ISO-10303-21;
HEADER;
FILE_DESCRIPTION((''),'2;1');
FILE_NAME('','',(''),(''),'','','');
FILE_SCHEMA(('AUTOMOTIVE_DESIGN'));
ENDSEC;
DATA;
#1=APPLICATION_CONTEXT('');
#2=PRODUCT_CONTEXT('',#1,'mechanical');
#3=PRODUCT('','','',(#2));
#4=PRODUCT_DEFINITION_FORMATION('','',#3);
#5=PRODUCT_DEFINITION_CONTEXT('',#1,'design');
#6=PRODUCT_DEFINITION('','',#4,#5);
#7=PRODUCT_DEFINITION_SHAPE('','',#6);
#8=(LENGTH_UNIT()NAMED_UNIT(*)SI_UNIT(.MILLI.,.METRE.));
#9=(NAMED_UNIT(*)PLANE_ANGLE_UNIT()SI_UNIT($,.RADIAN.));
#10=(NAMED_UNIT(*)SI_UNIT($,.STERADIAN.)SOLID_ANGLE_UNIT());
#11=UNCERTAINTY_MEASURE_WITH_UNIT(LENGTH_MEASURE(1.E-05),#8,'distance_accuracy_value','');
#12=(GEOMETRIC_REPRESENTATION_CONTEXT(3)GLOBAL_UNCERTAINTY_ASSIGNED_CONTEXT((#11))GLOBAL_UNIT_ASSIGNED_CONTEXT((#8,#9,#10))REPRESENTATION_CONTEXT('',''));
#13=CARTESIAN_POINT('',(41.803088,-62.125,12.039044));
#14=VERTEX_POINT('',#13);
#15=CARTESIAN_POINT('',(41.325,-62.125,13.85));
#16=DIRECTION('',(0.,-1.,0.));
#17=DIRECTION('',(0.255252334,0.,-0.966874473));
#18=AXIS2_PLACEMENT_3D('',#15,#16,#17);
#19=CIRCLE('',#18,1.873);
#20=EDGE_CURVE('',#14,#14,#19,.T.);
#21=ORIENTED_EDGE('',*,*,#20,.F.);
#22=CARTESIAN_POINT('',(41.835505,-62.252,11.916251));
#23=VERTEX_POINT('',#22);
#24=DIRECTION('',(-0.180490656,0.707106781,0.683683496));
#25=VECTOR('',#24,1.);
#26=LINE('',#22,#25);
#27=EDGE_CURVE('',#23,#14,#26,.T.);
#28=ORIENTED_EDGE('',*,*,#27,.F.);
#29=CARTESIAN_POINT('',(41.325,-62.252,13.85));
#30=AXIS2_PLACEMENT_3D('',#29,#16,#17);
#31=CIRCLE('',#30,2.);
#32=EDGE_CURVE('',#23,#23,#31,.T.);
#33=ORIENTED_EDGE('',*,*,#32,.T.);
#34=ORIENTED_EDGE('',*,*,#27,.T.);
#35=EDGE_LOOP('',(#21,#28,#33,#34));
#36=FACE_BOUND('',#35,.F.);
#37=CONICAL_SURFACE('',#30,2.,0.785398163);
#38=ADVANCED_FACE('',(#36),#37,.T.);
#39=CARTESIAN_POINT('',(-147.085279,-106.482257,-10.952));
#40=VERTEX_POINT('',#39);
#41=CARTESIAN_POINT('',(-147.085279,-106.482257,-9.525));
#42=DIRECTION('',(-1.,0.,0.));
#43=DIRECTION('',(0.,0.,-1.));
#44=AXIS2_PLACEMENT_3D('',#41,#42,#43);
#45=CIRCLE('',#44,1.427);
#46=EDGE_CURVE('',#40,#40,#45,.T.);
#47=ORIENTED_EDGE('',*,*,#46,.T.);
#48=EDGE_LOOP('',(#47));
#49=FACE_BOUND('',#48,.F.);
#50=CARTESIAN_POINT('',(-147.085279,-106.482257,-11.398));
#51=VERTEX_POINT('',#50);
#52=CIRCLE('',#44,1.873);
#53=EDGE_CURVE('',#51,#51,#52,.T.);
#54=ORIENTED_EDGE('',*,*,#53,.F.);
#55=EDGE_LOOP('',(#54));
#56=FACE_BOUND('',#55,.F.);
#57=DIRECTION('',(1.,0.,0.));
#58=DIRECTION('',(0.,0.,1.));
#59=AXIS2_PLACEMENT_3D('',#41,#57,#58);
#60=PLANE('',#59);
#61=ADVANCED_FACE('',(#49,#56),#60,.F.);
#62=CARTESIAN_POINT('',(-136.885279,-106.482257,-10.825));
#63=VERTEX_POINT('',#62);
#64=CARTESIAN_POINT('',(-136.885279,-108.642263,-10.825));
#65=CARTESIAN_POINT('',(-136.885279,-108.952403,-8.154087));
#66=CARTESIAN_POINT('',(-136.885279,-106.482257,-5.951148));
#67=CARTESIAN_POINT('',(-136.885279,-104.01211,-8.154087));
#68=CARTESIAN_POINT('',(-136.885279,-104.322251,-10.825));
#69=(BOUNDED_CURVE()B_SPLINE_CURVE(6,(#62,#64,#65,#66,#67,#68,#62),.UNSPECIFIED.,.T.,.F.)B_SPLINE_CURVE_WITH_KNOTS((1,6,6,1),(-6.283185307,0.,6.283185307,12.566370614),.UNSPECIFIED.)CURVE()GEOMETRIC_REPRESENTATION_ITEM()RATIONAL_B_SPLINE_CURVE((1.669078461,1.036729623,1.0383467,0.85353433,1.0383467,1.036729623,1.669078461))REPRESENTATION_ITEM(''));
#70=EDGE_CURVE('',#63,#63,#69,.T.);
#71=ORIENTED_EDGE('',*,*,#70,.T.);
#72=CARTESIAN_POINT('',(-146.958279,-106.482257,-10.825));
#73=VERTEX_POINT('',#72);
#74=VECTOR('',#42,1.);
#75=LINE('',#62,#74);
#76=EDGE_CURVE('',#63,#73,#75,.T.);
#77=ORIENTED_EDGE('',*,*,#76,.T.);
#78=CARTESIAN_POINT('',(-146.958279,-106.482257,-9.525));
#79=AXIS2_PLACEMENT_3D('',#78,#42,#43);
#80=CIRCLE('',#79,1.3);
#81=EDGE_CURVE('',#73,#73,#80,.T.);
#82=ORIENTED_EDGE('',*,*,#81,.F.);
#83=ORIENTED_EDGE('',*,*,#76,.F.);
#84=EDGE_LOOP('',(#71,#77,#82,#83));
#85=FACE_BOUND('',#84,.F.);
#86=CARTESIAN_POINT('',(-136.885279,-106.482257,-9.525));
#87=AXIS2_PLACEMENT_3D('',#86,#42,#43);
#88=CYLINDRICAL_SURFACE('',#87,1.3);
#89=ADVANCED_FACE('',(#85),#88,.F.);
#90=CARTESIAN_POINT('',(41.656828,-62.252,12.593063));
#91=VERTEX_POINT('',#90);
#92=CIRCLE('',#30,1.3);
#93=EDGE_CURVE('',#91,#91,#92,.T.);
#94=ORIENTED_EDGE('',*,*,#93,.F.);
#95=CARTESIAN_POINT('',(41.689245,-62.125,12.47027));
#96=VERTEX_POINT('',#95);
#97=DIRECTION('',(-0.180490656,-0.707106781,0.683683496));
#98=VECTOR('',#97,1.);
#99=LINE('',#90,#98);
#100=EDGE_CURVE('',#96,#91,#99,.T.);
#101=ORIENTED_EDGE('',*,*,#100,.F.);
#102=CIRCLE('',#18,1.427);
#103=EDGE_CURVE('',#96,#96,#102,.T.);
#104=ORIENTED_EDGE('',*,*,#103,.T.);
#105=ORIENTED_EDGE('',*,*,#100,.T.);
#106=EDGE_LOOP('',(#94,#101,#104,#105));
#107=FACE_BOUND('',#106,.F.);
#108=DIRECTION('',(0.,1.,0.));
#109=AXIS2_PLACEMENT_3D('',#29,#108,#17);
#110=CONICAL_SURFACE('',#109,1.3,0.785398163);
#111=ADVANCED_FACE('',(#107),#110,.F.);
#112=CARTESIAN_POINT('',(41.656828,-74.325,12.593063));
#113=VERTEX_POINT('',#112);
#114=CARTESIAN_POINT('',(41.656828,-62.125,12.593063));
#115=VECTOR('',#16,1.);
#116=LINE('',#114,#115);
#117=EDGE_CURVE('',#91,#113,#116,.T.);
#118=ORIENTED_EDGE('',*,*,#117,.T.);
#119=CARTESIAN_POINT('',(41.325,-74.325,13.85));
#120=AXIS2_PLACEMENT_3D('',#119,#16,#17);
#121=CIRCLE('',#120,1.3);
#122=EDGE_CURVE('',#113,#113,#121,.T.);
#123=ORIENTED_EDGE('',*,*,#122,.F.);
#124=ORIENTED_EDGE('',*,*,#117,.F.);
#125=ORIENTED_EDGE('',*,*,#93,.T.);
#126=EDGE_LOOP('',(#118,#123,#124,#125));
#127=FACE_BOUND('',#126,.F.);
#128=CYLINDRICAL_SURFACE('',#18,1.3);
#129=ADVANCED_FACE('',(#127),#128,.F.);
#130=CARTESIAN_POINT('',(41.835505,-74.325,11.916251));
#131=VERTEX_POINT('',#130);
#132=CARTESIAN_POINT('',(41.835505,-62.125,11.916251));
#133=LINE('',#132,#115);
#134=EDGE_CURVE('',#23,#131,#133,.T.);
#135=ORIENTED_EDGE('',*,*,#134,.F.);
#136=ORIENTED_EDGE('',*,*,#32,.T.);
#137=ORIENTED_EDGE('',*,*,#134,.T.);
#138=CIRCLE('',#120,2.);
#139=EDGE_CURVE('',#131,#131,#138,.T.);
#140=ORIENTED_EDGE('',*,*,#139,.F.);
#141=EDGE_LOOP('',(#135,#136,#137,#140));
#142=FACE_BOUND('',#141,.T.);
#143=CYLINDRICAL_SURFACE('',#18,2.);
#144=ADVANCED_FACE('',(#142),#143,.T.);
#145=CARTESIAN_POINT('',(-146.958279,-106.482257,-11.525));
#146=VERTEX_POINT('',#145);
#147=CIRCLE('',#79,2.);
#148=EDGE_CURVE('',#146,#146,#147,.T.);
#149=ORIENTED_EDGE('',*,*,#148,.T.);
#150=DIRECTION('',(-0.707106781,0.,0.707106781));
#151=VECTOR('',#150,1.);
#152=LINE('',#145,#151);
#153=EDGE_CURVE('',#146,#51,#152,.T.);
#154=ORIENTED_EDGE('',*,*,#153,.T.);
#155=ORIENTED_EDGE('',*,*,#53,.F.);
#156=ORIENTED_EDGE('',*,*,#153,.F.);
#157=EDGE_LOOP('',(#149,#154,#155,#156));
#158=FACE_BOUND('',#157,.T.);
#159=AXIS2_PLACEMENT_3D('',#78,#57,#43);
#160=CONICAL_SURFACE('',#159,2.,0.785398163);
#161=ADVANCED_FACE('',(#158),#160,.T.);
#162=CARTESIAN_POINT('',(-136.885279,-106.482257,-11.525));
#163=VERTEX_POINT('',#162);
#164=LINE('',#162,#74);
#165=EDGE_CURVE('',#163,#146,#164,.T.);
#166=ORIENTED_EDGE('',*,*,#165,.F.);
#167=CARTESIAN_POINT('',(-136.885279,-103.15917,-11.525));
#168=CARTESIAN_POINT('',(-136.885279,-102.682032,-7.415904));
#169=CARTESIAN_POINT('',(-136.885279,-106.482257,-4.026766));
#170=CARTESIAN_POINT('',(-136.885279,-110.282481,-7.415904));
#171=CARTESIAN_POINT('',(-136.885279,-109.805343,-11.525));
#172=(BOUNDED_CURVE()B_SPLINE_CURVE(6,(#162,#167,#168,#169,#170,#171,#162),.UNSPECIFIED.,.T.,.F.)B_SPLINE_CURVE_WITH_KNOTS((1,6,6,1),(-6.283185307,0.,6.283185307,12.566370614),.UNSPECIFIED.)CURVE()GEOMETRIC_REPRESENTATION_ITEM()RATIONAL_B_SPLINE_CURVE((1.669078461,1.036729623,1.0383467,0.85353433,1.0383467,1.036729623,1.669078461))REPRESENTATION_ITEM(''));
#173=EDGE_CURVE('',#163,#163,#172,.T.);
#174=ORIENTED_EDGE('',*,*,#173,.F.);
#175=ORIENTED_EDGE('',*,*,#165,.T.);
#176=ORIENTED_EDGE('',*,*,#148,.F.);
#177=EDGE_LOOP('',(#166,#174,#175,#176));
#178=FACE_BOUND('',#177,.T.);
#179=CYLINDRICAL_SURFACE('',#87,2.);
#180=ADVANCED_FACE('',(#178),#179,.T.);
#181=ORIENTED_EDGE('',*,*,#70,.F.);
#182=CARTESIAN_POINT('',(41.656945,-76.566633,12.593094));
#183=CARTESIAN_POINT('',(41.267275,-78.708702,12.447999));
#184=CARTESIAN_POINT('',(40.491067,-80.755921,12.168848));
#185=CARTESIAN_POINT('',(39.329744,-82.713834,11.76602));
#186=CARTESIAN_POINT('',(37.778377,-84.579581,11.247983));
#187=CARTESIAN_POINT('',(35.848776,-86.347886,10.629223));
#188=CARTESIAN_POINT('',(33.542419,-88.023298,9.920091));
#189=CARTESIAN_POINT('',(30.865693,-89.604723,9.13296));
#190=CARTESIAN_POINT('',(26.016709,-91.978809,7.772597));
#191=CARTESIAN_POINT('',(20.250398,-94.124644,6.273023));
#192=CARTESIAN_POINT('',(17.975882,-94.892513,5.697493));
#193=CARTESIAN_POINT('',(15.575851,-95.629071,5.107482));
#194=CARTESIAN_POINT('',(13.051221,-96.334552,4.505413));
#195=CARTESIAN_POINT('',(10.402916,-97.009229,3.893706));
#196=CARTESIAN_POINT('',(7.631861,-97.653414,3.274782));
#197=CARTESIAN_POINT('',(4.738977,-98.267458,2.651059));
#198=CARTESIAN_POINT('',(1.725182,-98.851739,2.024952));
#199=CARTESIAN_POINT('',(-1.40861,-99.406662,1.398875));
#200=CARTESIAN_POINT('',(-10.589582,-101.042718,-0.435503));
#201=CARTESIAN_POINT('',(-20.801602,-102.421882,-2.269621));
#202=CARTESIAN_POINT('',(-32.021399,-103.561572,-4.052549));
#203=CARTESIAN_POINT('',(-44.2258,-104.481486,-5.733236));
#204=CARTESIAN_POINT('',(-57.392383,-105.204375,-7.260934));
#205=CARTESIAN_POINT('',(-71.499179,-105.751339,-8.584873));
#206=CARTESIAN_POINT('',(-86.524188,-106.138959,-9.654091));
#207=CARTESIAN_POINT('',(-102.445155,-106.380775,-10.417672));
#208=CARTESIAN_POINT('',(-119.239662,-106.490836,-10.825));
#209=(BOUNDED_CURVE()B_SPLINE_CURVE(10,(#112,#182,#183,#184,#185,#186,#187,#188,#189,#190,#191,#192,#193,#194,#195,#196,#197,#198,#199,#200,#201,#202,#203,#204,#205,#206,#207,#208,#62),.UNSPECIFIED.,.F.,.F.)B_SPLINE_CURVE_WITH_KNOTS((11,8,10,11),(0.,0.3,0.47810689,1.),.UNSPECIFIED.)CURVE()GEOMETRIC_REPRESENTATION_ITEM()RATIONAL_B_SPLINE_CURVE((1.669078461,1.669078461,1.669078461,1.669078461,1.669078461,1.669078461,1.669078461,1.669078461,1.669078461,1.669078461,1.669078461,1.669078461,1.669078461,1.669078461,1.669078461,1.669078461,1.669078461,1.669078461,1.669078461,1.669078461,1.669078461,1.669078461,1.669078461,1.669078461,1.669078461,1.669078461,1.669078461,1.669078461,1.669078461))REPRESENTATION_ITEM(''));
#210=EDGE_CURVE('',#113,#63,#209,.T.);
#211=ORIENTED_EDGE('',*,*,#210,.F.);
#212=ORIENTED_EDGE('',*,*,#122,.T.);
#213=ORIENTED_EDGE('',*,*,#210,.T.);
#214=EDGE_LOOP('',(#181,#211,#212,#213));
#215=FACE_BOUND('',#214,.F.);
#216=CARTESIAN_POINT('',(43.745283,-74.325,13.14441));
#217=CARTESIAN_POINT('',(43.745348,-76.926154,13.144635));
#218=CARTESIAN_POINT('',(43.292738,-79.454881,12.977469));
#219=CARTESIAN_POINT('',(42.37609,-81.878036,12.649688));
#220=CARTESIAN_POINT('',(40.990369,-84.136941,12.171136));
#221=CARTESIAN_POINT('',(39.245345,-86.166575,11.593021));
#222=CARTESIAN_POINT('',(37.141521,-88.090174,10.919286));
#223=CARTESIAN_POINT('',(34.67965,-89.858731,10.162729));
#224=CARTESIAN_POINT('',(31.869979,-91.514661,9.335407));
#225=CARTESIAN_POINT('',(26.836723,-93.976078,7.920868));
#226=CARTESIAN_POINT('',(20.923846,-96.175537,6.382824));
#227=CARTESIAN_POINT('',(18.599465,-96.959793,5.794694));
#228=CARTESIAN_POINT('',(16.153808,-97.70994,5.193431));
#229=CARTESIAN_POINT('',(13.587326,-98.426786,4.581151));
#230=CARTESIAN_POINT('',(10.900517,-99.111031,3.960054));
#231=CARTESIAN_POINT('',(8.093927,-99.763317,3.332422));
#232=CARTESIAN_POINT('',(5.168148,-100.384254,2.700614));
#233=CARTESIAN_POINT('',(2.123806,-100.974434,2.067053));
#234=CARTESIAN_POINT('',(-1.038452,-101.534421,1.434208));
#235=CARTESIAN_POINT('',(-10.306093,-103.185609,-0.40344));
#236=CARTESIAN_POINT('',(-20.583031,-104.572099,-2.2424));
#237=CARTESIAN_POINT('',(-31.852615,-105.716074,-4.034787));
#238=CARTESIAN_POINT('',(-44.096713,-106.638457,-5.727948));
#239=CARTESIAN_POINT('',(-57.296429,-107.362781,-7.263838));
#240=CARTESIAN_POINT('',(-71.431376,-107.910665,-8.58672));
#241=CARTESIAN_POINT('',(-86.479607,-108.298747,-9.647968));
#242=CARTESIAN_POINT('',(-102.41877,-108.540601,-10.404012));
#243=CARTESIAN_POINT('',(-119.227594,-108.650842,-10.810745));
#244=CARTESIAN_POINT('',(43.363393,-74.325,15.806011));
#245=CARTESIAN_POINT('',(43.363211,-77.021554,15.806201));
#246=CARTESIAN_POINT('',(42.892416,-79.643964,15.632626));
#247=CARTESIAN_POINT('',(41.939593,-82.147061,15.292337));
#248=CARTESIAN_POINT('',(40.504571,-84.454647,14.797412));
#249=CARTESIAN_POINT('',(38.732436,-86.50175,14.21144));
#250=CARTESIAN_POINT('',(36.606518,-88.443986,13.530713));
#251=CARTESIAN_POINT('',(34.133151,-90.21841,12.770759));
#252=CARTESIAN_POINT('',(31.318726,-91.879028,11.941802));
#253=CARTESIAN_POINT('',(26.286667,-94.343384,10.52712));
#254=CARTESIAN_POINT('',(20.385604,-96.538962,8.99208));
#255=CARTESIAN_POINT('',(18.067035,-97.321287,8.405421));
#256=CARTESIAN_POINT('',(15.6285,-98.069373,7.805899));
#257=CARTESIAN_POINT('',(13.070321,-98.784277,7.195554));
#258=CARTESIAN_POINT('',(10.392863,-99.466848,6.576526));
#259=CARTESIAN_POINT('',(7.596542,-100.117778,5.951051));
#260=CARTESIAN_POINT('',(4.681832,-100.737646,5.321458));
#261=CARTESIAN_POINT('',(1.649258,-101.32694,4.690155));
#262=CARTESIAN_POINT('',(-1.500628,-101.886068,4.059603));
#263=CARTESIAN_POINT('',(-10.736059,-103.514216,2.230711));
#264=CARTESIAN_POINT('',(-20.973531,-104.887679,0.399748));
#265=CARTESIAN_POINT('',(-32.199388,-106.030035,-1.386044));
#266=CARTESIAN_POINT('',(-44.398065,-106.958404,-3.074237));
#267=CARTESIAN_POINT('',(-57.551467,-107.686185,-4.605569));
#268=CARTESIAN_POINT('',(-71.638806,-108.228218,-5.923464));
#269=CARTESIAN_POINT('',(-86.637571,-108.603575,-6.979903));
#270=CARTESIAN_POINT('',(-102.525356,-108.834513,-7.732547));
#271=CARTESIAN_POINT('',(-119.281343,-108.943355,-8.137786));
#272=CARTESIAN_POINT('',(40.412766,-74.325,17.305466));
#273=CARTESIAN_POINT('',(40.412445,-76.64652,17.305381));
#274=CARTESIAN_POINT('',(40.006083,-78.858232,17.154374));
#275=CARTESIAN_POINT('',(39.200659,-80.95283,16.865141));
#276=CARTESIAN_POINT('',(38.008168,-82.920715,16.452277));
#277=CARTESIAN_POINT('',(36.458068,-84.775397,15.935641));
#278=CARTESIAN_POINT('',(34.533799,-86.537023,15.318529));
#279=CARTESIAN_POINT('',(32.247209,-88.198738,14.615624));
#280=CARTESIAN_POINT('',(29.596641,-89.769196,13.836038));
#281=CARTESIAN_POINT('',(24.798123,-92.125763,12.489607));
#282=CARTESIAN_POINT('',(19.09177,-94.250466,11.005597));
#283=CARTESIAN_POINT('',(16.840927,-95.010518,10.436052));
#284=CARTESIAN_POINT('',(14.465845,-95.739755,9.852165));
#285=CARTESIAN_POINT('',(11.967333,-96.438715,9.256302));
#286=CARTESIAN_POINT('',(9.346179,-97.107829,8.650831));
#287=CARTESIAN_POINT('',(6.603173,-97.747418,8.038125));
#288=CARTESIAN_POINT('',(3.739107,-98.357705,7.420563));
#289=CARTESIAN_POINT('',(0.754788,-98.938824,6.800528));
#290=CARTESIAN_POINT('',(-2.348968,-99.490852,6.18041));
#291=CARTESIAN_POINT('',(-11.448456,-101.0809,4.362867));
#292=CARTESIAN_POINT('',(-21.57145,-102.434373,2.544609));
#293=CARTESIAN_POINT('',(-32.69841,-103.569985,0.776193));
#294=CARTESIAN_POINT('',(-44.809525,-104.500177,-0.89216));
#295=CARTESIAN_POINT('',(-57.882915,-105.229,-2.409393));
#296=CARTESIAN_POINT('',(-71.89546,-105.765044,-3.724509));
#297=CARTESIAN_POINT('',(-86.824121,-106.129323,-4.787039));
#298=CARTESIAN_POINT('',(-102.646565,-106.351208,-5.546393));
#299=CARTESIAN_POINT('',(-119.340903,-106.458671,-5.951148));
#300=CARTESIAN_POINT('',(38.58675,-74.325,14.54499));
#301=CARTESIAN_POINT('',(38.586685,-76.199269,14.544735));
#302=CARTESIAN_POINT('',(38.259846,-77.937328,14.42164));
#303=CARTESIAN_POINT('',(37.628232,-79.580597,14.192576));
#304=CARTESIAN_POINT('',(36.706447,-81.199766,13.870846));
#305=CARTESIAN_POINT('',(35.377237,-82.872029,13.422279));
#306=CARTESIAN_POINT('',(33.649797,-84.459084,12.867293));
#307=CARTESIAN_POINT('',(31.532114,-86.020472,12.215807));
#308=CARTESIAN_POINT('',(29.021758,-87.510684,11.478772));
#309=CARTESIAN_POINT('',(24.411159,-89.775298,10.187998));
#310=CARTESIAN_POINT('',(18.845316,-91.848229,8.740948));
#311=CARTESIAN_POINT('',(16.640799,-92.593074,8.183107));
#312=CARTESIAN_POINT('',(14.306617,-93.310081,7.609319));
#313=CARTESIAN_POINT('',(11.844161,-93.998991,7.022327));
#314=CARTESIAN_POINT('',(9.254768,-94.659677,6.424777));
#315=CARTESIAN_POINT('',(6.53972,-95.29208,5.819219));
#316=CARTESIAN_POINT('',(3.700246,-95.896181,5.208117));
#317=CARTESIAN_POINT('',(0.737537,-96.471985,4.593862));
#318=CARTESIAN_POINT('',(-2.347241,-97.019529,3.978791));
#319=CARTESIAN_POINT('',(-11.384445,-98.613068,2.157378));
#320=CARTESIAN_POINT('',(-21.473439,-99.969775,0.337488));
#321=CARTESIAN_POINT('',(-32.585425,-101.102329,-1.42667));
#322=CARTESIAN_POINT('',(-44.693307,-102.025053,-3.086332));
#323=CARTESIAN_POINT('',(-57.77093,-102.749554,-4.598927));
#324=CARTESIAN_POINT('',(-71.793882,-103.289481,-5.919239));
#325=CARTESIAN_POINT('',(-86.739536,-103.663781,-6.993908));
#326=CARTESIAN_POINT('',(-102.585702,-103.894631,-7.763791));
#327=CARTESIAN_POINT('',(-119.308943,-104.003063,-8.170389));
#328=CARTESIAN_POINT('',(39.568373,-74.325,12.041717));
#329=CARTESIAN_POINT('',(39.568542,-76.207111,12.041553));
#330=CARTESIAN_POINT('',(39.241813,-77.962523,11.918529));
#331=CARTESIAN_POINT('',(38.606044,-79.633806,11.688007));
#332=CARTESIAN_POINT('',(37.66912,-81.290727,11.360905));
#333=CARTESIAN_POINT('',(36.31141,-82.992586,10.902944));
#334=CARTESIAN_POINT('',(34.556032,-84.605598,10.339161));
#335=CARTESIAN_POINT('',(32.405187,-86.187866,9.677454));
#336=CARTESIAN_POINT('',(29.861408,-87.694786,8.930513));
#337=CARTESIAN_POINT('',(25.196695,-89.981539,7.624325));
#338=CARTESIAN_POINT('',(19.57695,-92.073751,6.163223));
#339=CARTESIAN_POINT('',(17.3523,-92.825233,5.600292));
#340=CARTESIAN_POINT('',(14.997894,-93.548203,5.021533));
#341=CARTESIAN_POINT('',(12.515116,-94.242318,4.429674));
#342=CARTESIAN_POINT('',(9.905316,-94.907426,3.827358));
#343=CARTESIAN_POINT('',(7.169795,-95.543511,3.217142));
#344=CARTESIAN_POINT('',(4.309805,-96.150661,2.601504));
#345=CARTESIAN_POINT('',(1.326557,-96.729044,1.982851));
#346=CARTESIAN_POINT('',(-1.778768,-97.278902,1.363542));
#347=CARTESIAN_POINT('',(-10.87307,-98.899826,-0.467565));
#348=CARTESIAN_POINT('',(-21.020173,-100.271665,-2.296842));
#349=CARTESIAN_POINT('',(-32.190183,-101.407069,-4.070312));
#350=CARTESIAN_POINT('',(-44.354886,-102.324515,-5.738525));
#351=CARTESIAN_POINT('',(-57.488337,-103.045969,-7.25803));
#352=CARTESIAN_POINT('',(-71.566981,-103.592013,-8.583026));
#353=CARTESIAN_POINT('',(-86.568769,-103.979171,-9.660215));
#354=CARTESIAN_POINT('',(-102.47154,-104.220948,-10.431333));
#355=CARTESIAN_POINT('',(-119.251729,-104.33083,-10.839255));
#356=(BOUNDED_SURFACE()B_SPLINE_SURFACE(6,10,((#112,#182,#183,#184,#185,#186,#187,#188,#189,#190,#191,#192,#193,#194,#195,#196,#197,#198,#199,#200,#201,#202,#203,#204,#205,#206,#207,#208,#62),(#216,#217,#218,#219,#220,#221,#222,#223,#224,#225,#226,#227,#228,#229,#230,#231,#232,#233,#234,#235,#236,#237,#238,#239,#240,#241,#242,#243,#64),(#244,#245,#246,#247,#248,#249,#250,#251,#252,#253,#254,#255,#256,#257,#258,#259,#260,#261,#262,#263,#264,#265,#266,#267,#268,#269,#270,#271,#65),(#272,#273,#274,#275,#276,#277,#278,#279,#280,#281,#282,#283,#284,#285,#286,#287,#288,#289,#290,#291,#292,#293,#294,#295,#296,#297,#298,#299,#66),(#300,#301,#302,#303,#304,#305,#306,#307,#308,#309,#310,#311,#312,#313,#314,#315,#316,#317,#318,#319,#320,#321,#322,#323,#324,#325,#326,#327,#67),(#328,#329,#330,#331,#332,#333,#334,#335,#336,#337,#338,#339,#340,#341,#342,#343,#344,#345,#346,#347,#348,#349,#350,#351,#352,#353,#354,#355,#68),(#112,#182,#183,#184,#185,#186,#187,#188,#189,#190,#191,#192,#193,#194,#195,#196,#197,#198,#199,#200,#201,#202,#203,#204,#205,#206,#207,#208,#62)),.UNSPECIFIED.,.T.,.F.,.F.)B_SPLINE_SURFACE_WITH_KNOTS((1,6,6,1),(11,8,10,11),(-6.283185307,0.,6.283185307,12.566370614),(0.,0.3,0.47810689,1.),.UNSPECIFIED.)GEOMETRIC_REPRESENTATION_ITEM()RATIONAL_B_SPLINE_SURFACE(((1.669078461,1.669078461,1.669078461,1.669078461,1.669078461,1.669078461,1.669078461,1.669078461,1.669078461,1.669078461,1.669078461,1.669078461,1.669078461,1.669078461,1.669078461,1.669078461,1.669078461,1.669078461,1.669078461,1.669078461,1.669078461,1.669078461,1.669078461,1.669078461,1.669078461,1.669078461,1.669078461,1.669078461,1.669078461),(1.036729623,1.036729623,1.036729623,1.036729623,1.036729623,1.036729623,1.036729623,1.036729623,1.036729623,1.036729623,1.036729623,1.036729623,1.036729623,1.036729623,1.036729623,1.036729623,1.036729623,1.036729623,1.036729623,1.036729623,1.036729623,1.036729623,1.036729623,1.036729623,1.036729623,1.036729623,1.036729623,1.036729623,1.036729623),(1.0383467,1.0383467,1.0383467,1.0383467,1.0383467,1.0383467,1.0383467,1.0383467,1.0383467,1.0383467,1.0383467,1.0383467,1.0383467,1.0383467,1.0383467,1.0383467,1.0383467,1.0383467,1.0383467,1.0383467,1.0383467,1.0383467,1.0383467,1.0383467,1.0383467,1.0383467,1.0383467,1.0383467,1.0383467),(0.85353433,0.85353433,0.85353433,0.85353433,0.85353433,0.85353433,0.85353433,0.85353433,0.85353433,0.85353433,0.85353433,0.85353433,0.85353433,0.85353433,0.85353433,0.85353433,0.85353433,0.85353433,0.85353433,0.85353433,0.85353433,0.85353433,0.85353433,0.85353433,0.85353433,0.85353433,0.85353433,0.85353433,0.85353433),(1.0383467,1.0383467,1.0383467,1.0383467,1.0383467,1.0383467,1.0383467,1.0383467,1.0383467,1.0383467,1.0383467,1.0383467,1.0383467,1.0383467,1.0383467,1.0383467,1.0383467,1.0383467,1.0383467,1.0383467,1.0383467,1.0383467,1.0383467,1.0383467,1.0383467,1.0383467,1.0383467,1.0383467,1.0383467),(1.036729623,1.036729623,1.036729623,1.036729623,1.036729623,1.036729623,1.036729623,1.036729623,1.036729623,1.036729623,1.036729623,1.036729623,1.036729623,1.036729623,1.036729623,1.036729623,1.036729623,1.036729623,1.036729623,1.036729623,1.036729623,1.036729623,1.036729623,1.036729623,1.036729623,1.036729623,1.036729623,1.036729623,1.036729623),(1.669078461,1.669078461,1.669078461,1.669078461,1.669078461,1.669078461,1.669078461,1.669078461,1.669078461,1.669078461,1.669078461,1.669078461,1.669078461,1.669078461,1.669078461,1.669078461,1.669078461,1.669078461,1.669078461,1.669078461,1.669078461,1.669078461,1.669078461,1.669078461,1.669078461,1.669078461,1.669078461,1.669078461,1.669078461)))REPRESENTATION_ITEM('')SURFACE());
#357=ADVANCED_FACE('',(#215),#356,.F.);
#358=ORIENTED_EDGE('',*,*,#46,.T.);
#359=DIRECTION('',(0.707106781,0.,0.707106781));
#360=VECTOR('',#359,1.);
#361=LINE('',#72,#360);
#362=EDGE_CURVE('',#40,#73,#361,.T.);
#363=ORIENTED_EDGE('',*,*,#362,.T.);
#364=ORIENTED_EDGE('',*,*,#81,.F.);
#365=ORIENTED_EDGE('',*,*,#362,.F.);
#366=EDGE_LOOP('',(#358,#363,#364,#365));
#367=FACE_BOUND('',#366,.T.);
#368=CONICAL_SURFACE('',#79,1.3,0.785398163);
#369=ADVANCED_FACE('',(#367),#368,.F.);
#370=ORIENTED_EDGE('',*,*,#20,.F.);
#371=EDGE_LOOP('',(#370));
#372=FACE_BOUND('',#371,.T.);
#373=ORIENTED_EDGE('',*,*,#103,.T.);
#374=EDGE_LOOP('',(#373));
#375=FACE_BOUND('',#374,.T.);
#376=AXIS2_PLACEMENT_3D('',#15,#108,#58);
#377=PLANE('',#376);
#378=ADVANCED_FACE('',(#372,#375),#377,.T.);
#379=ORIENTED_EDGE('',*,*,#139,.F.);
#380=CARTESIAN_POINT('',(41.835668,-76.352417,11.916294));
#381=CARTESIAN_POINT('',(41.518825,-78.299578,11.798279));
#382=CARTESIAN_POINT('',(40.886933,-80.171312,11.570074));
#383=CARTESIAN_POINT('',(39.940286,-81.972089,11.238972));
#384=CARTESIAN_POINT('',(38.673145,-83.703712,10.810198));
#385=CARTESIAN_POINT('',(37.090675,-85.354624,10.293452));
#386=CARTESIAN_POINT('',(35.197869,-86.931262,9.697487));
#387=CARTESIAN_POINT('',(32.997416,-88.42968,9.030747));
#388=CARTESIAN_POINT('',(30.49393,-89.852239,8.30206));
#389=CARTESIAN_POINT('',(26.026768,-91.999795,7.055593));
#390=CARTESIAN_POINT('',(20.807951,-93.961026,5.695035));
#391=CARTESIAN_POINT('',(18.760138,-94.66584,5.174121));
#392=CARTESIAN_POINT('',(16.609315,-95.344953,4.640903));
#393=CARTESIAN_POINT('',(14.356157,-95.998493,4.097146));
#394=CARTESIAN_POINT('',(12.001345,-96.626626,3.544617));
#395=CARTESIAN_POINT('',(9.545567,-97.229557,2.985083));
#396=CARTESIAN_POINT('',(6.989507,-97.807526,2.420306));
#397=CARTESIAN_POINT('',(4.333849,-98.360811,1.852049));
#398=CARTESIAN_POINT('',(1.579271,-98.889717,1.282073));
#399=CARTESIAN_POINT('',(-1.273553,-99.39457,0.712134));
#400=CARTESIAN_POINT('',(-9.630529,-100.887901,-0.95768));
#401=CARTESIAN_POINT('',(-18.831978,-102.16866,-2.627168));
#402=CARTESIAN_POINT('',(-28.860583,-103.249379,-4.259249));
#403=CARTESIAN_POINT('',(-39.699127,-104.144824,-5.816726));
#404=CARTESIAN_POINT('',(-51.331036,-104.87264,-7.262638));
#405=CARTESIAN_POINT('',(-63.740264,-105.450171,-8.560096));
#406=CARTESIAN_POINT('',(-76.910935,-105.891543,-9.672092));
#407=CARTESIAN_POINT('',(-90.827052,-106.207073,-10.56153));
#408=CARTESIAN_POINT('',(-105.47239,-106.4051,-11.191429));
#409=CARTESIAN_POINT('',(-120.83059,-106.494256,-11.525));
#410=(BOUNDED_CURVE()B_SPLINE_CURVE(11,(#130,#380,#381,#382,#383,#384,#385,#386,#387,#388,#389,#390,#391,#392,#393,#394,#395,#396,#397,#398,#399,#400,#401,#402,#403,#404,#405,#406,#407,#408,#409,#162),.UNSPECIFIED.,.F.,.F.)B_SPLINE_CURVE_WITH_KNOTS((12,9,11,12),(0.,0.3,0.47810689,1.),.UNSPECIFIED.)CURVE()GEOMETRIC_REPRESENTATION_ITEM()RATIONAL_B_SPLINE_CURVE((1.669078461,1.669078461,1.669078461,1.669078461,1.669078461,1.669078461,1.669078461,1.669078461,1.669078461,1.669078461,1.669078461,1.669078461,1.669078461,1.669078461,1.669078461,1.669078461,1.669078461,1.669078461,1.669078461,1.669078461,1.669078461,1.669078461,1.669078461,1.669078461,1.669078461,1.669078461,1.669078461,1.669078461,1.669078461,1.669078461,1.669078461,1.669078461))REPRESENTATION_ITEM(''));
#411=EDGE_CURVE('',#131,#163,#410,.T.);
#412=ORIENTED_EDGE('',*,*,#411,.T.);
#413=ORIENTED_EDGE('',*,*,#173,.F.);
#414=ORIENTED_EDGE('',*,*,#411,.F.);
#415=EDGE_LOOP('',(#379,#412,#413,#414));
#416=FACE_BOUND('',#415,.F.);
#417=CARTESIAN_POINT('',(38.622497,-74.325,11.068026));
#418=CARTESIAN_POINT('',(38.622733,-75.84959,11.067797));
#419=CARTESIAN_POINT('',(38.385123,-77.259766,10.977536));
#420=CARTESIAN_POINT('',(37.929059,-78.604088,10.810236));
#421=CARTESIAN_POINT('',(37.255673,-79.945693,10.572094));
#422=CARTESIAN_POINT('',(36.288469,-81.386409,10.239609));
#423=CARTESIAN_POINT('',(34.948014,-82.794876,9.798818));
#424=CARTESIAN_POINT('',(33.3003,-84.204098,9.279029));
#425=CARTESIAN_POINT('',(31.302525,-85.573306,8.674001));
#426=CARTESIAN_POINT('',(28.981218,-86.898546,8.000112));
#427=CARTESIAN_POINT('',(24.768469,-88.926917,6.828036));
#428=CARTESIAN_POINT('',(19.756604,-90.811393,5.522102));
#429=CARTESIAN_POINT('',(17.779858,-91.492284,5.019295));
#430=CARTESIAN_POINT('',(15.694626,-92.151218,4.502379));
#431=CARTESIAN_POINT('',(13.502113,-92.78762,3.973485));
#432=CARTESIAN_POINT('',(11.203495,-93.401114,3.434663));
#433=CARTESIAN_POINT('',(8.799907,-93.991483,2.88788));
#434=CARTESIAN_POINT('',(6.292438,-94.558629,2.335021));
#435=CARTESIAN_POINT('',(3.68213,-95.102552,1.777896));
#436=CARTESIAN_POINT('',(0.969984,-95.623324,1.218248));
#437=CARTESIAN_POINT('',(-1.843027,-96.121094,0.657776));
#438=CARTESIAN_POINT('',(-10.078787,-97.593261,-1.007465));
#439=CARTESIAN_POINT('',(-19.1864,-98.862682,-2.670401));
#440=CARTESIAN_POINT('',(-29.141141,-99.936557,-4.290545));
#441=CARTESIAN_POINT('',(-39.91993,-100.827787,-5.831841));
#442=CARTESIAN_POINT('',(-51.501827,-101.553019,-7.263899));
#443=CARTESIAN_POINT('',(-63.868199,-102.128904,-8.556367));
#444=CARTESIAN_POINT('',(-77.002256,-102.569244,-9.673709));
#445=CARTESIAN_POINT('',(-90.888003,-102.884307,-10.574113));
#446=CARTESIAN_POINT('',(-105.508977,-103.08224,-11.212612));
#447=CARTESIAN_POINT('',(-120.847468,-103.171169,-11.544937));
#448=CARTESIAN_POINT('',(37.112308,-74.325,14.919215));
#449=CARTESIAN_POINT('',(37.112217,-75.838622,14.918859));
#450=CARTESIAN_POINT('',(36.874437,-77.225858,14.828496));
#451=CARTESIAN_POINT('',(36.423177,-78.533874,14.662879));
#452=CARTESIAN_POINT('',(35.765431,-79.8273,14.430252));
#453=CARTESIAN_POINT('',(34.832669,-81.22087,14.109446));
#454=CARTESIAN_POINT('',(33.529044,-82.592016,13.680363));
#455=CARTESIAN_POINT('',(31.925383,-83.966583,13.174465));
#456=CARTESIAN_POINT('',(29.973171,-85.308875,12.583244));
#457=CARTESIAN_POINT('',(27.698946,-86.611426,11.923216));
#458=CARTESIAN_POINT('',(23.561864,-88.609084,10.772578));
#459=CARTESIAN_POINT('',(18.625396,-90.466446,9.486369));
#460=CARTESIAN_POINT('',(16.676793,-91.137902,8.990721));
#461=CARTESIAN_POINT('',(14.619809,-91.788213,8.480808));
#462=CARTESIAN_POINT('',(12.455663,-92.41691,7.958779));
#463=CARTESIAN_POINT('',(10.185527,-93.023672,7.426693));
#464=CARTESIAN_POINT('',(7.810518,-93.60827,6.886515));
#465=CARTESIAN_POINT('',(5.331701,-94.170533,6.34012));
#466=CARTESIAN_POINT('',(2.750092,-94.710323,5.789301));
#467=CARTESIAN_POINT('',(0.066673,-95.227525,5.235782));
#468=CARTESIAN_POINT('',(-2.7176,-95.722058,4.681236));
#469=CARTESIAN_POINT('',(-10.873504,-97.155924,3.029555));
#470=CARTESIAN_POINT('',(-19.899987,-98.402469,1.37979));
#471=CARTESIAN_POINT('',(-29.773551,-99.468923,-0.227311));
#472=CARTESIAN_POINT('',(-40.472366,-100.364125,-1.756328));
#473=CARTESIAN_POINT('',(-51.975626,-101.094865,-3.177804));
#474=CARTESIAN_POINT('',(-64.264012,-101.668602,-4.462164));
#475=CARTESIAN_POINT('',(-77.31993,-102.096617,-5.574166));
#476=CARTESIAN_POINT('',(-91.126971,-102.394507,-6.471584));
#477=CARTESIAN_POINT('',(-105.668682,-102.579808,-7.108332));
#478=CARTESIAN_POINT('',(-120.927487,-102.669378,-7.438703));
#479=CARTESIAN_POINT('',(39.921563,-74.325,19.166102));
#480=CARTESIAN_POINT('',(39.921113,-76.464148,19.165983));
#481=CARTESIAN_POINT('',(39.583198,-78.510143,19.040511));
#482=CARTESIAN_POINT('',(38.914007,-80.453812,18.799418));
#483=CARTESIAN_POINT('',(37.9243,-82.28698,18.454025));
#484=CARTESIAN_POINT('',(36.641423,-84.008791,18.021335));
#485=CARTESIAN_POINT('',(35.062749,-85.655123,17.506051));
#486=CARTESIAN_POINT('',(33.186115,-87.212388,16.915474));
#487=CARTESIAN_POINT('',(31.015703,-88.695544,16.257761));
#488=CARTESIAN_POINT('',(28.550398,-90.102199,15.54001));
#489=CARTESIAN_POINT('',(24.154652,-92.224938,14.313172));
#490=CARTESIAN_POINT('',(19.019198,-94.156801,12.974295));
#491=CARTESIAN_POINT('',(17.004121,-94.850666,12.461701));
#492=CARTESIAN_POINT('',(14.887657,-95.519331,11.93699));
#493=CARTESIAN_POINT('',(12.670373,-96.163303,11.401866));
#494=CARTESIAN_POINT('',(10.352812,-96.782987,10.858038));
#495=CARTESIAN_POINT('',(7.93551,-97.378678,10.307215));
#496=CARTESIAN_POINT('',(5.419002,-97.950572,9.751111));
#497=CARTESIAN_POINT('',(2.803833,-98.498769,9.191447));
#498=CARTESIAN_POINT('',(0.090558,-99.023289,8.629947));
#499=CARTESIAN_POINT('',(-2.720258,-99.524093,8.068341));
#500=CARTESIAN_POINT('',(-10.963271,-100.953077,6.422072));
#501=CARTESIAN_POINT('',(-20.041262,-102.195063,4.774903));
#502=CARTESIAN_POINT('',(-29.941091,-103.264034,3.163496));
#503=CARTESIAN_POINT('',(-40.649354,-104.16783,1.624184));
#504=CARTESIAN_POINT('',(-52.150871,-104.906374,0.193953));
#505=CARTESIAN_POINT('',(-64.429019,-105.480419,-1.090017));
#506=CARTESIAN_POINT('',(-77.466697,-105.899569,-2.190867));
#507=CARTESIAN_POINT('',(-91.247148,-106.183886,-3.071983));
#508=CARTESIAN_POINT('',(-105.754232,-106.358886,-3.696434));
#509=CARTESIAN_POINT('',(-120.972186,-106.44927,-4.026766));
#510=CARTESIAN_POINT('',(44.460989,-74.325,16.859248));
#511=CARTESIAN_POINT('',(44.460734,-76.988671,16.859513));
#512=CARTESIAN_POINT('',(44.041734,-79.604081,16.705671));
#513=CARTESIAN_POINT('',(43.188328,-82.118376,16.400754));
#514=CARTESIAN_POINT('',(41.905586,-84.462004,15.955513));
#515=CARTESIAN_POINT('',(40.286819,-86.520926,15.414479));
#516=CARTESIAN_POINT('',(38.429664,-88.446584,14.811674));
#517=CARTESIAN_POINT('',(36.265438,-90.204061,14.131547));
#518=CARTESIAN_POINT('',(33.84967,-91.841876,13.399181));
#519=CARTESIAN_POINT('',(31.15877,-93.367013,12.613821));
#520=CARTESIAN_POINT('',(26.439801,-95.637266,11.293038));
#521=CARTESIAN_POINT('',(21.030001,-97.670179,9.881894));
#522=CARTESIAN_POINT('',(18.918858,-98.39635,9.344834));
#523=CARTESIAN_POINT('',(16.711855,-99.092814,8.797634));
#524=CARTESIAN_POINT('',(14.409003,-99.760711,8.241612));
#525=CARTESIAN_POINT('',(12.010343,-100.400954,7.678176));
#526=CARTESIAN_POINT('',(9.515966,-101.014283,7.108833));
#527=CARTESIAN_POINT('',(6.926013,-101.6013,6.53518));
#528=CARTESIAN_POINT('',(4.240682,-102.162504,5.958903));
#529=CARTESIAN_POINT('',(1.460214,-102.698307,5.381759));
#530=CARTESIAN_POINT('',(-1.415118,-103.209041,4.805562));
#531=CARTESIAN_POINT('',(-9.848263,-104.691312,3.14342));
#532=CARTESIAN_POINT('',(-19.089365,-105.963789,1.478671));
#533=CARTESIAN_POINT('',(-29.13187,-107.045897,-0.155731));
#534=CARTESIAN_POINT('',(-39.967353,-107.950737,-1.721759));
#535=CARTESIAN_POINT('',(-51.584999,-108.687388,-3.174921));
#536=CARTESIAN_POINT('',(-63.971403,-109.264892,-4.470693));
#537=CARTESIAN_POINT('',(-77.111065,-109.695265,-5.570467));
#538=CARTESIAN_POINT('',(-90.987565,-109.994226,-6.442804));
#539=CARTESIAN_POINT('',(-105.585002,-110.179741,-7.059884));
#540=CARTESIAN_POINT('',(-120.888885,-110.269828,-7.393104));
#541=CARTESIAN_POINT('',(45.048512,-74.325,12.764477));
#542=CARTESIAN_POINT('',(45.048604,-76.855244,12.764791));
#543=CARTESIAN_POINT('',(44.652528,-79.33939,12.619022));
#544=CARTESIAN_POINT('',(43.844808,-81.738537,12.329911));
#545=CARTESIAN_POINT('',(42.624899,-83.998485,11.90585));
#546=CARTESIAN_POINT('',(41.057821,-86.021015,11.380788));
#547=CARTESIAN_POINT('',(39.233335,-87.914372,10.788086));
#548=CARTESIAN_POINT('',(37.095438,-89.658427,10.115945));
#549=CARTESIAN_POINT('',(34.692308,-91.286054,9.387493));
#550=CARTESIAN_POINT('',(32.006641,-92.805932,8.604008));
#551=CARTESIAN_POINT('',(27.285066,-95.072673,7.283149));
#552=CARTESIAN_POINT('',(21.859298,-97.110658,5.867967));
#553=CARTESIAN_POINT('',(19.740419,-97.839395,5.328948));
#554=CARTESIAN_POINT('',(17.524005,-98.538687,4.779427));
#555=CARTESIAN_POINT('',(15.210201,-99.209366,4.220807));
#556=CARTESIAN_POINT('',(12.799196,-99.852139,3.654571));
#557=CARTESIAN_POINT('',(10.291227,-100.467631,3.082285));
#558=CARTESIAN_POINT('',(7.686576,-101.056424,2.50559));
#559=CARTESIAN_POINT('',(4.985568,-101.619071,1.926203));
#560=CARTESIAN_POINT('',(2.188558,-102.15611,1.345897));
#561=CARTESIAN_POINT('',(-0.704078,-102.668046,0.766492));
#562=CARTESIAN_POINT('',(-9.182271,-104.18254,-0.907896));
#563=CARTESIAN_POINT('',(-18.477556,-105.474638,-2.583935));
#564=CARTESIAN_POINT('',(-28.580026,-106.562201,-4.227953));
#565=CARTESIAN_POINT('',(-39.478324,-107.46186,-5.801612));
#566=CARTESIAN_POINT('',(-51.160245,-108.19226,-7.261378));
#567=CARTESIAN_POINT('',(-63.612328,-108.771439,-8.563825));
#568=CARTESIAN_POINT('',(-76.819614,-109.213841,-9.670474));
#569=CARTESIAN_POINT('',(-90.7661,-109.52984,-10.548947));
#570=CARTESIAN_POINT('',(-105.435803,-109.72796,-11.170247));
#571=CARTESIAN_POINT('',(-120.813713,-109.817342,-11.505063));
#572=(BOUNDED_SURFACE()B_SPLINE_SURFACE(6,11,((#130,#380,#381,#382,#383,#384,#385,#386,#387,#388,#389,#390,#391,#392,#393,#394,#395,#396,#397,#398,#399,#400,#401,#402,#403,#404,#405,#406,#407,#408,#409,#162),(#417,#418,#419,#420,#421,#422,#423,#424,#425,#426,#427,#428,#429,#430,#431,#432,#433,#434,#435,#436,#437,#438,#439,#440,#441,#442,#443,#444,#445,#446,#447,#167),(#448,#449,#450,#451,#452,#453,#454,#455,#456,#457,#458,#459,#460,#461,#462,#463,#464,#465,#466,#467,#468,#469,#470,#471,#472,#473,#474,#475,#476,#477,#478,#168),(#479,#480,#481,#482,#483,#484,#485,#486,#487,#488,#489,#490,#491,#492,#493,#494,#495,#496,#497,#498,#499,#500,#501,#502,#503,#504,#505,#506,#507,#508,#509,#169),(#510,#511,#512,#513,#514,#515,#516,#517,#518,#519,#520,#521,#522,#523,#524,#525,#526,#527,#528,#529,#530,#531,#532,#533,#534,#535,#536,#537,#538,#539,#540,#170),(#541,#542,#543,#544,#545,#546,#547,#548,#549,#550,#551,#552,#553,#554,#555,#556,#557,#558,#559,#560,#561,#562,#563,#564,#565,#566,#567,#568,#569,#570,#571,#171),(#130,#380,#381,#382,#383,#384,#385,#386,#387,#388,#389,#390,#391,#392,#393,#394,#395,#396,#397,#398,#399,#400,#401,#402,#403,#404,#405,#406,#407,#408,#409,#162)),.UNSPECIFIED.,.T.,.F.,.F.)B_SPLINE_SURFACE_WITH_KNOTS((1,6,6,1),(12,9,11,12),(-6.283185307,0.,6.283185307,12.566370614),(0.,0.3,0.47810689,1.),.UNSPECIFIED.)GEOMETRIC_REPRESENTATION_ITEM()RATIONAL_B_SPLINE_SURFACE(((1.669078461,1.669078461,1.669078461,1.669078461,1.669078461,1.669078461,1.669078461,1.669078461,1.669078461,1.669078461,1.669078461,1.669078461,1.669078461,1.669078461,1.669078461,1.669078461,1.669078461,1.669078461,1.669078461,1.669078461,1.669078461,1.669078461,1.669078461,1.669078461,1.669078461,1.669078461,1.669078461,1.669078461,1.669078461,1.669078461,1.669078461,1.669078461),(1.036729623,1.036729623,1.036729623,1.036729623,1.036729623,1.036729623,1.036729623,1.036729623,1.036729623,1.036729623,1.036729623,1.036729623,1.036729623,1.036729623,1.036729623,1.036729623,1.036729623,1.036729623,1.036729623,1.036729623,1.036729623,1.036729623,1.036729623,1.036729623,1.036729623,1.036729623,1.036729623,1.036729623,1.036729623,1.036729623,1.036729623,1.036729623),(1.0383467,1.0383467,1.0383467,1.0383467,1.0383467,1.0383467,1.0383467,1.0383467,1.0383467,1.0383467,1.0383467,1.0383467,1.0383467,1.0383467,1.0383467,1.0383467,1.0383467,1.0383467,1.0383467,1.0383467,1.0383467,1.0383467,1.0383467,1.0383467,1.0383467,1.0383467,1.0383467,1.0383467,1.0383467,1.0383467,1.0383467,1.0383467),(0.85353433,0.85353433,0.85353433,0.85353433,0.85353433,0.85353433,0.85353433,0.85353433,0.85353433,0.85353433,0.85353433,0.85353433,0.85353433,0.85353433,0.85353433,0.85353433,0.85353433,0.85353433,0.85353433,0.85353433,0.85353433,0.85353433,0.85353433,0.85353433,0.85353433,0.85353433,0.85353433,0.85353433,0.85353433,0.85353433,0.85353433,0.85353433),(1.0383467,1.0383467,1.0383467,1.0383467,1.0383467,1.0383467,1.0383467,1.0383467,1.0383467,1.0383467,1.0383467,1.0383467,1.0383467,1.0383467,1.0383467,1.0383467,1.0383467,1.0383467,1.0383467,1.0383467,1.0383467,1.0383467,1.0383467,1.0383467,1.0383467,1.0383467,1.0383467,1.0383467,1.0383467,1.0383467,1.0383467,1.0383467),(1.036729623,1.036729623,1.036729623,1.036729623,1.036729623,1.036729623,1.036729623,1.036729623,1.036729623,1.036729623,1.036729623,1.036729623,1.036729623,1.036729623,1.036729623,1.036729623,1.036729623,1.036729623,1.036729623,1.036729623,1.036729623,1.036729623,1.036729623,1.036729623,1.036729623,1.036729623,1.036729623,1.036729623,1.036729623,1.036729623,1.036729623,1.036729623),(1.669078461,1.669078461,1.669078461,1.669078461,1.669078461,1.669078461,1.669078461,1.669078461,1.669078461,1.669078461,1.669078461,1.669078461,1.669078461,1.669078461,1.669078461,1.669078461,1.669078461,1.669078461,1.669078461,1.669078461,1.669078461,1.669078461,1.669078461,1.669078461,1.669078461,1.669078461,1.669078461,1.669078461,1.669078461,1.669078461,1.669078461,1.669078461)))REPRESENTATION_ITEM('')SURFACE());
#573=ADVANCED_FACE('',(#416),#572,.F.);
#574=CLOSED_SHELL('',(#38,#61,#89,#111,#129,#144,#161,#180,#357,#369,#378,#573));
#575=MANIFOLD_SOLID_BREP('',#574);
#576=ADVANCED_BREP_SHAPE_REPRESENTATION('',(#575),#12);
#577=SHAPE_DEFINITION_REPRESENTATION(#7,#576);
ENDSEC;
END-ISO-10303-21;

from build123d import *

# Parameters (mm, degrees)
SKETCH1_R     = 2
SKETCH1_R_2   = 1.3
CHAMFER1_SIZE = 0.127


with BuildPart() as part:
    # Sweep1: sweep along a curve in space
    with BuildLine() as sweep1_path:
        Line((41.325, -62.125, 13.85), (41.325, -74.325, 13.85))
        add(Edge.make_bspline(
            [(41.325, -74.325, 13.85), (41.325, -86.346418365, 13.85), (9.919600667, -103.338845801, 2.1625), (-78.1565683, -106.482256564, -9.525), (-136.885279081, -106.482256564, -9.525)],
            knots=[0, 0, 0, 0, 0.47810689, 1, 1, 1, 1], degree=3))
        Line((-136.885279081, -106.482256564, -9.525), (-147.085279081, -106.482256564, -9.525))
    # Sketch1 → Sweep1 (sweep)
    with BuildSketch(Plane(origin=(-138.985279081, 0, 0), x_dir=(0, 0, -1), z_dir=(1, 0, 0))):
        with Locations((9.525, -106.482256564)):
            Circle(SKETCH1_R)
        with Locations((9.525, -106.482256564)):
            Circle(SKETCH1_R_2, mode=Mode.SUBTRACT)
    sweep(path=sweep1_path.line)

    # Chamfer1
    chamfer1_edges = [part.edges().sort_by_distance(p)[0] for p in [
        (40.993171966, -62.125, 15.106936815),
        (-147.085279081, -106.482256564, -8.225),
        (40.814495333, -62.125, 15.783748946),
        (-147.085279081, -106.482256564, -7.525),
    ]]
    chamfer(chamfer1_edges, length=CHAMFER1_SIZE)


solid = part.part
